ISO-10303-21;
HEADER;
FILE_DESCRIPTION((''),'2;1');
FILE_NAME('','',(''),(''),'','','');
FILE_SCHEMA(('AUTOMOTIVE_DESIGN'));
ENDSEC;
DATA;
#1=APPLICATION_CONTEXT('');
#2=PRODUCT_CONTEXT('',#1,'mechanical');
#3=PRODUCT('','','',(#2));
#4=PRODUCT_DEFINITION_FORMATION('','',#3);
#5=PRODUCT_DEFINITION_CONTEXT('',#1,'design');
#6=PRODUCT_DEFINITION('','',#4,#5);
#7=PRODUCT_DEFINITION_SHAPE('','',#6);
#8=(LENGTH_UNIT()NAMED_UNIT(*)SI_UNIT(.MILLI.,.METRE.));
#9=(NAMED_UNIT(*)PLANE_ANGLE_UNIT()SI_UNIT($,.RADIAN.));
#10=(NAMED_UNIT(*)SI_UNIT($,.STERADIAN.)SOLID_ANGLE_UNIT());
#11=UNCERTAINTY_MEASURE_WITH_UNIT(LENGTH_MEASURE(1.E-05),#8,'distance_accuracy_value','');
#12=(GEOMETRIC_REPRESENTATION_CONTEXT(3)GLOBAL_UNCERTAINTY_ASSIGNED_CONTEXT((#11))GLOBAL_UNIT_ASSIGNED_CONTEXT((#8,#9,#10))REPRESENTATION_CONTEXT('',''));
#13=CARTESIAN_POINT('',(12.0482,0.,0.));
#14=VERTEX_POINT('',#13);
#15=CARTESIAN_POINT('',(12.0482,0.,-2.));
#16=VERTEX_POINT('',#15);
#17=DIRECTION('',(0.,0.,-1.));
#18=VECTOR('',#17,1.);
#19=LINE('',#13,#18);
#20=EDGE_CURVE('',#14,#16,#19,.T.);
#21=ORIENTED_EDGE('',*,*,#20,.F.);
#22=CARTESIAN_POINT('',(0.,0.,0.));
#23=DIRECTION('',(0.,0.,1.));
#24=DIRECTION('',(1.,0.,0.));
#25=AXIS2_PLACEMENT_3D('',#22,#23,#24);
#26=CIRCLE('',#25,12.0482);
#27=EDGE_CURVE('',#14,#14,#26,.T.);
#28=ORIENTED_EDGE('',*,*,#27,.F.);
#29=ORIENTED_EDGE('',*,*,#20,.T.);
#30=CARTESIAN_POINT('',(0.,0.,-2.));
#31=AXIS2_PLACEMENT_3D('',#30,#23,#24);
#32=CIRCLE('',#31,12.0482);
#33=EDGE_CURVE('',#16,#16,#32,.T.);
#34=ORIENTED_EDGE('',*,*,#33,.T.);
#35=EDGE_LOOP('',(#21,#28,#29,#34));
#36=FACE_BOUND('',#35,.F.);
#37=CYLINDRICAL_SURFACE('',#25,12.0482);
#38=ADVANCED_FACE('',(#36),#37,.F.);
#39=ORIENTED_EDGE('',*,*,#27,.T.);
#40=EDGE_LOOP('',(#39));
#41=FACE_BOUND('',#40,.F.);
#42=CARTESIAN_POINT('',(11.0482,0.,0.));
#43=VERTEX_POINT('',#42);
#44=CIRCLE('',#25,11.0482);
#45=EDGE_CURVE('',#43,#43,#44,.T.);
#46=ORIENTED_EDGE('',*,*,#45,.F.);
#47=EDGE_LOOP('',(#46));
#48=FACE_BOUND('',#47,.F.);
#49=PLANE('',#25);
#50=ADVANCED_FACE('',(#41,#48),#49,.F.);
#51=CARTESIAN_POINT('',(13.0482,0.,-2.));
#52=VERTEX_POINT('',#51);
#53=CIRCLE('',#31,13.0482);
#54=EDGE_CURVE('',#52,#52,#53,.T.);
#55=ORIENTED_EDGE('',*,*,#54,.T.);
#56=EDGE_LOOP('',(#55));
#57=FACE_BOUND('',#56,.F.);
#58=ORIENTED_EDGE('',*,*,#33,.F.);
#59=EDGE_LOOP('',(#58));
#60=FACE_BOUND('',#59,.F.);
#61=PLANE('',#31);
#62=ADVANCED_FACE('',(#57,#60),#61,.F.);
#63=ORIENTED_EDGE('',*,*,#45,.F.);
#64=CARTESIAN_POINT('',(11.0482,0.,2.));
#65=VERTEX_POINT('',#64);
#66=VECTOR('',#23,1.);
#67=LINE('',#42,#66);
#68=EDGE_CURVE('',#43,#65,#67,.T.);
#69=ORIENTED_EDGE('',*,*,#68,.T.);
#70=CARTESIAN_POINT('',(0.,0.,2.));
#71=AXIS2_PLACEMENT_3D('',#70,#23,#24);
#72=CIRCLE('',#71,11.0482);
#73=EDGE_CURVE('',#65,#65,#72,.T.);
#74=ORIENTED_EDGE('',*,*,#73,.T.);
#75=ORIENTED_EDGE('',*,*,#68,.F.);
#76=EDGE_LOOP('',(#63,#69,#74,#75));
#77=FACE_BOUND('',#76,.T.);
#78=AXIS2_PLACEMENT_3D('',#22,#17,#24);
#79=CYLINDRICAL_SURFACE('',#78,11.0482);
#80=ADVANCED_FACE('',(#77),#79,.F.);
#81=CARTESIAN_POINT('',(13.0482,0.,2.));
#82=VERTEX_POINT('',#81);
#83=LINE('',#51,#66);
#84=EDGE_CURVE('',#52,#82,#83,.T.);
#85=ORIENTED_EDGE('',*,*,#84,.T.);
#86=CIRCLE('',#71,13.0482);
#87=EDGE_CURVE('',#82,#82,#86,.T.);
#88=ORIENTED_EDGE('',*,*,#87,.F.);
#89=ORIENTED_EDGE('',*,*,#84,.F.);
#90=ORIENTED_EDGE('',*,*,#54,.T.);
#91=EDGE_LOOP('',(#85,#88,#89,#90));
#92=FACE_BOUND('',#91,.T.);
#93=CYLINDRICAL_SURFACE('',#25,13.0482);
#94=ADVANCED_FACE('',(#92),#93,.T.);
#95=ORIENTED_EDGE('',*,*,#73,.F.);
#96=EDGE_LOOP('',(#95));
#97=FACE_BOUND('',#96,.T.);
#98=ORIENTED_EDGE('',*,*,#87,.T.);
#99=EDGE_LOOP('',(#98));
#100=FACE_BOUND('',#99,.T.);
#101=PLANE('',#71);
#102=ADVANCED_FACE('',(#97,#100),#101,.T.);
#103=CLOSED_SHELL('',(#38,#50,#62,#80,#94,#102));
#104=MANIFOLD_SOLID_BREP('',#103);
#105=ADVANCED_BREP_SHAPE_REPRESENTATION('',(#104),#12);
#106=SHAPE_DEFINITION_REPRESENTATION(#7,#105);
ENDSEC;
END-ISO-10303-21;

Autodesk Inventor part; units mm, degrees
ref_plane "YZ Plane" through (0, 0, 0) normal (1, 0, 0) x (0, 1, 0)
ref_plane "XZ Plane" through (0, 0, 0) normal (0, 1, 0) x (-1, 0, 0)
ref_plane "XY Plane" through (0, 0, 0) normal (0, 0, 1) x (1, 0, 0)
sketch "Sketch1" plane through (0, 0, 0) normal (0, 0, 1) x (1, 0, 0)
  circle A0 centre (0, 0) radius 13.0482
  spline S0 degree 3 poles (1.4215, 11.0572) (1.4473, 10.9809) (1.4859, 10.8664) (1.5292, 10.7112) (1.5586, 10.5939) (1.5843, 10.4759) (1.6059, 10.357) (1.6236, 10.2374) (1.631, 10.1572) (1.6346, 10.117) knots -0.096663 -0.096663 -0.096663 -0.096663 -0.072499 -0.060415 -0.048332 -0.036249 -0.024166 -0.012083 0 0 0 0 projected
  arc A1 (1.9905, 10.0531) -> (1.6346, 10.117) centre (0, 0) ccw projected
  spline S1 degree 3 poles (1.9905, 10.0531) (2.0079, 10.0894) (2.0426, 10.1621) (2.1009, 10.268) (2.1626, 10.3719) (2.2278, 10.4737) (2.2962, 10.5733) (2.3908, 10.7038) (2.4669, 10.7977) (2.5176, 10.8602) knots -0.096663 -0.096663 -0.096663 -0.096663 -0.084581 -0.072498 -0.060415 -0.048331 -0.036248 -0.024165 0 0 0 0 projected
  arc A2 (2.7193, 10.8115) -> (2.5176, 10.8602) centre (0, 0) ccw projected
  spline S2 degree 3 poles (2.7193, 10.8115) (2.7359, 10.7327) (2.7607, 10.6144) (2.7853, 10.4551) (2.8006, 10.3353) (2.8122, 10.215) (2.8196, 10.0943) (2.8231, 9.9735) (2.8208, 9.893) (2.8197, 9.8527) knots -0.096663 -0.096663 -0.096663 -0.096663 -0.072499 -0.060415 -0.048332 -0.036249 -0.024166 -0.012083 0 0 0 0 projected
  arc A3 (3.1655, 9.7471) -> (2.8197, 9.8527) centre (0, 0) ccw projected
  spline S3 degree 3 poles (3.1655, 9.7471) (3.1871, 9.7811) (3.2302, 9.8492) (3.3006, 9.9475) (3.3741, 10.0433) (3.4509, 10.1367) (3.5306, 10.2275) (3.64, 10.3459) (3.7266, 10.4301) (3.7844, 10.4863) knots -0.096663 -0.096663 -0.096663 -0.096663 -0.084581 -0.072498 -0.060415 -0.048331 -0.036248 -0.024165 0 0 0 0 projected
  arc A4 (3.9789, 10.414) -> (3.7844, 10.4863) centre (0, 0) ccw projected
  spline S4 degree 3 poles (3.9789, 10.414) (3.986, 10.3337) (3.9967, 10.2134) (4.0023, 10.0523) (4.0033, 9.9315) (4.0006, 9.8106) (3.9937, 9.69) (3.9828, 9.5696) (3.9711, 9.4899) (3.9652, 9.45) knots -0.096663 -0.096663 -0.096663 -0.096663 -0.072499 -0.060415 -0.048332 -0.036249 -0.024166 -0.012083 0 0 0 0 projected
  arc A5 (4.2961, 9.3043) -> (3.9652, 9.45) centre (0, 0) ccw projected
  spline S5 degree 3 poles (4.2961, 9.3043) (4.3215, 9.3355) (4.3724, 9.398) (4.4539, 9.4873) (4.5383, 9.5738) (4.6256, 9.6574) (4.7154, 9.7382) (4.838, 9.8428) (4.9341, 9.9161) (4.9981, 9.9651) knots -0.096663 -0.096663 -0.096663 -0.096663 -0.084581 -0.072498 -0.060415 -0.048331 -0.036248 -0.024165 0 0 0 0 projected
  arc A6 (5.1827, 9.8703) -> (4.9981, 9.9651) centre (0, 0) ccw projected
  spline S6 degree 3 poles (5.1827, 9.8703) (5.1803, 9.7898) (5.1766, 9.669) (5.1631, 9.5084) (5.1498, 9.3883) (5.1328, 9.2686) (5.1117, 9.1496) (5.0867, 9.0314) (5.0656, 8.9536) (5.0551, 8.9147) knots -0.096663 -0.096663 -0.096663 -0.096663 -0.072499 -0.060415 -0.048332 -0.036249 -0.024166 -0.012083 0 0 0 0 projected
  arc A7 (5.3664, 8.7309) -> (5.0551, 8.9147) centre (0, 0) ccw projected
  spline S7 degree 3 poles (5.3664, 8.7309) (5.3954, 8.7589) (5.4533, 8.8149) (5.5447, 8.8939) (5.6388, 8.9698) (5.7353, 9.0425) (5.8341, 9.1121) (5.9682, 9.2015) (6.0723, 9.263) (6.1416, 9.304) knots -0.096663 -0.096663 -0.096663 -0.096663 -0.084581 -0.072498 -0.060415 -0.048331 -0.036248 -0.024165 0 0 0 0 projected
  arc A8 (6.3137, 9.1881) -> (6.1416, 9.304) centre (0, 0) ccw projected
  spline S8 degree 3 poles (6.3137, 9.1881) (6.3018, 9.1084) (6.2839, 8.9889) (6.2515, 8.831) (6.2241, 8.7133) (6.193, 8.5965) (6.158, 8.4808) (6.1192, 8.3664) (6.089, 8.2916) (6.074, 8.2543) knots -0.096663 -0.096663 -0.096663 -0.096663 -0.072499 -0.060415 -0.048332 -0.036249 -0.024166 -0.012083 0 0 0 0 projected
  arc A9 (6.3614, 8.0349) -> (6.074, 8.2543) centre (0, 0) ccw projected
  spline S9 degree 3 poles (6.3614, 8.0349) (6.3934, 8.0593) (6.4576, 8.108) (6.5577, 8.1757) (6.6601, 8.24) (6.7646, 8.3007) (6.8709, 8.3581) (7.0146, 8.431) (7.1252, 8.4798) (7.1989, 8.5123) knots -0.096663 -0.096663 -0.096663 -0.096663 -0.084581 -0.072498 -0.060415 -0.048331 -0.036248 -0.024165 0 0 0 0 projected
  arc A10 (7.3561, 8.3768) -> (7.1989, 8.5123) centre (0, 0) ccw projected
  spline S10 degree 3 poles (7.3561, 8.3768) (7.3348, 8.2991) (7.3029, 8.1825) (7.2521, 8.0296) (7.2109, 7.916) (7.1663, 7.8037) (7.1179, 7.693) (7.0657, 7.5839) (7.027, 7.5133) (7.0076, 7.478) knots -0.096663 -0.096663 -0.096663 -0.096663 -0.072499 -0.060415 -0.048332 -0.036249 -0.024166 -0.012083 0 0 0 0 projected
  arc A11 (7.267, 7.2261) -> (7.0076, 7.478) centre (0, 0) ccw projected
  spline S11 degree 3 poles (7.267, 7.2261) (7.3017, 7.2465) (7.3712, 7.2874) (7.4787, 7.3427) (7.5879, 7.3944) (7.6988, 7.4424) (7.8112, 7.4868) (7.9625, 7.5422) (8.0781, 7.5775) (8.1552, 7.6011) knots -0.096663 -0.096663 -0.096663 -0.096663 -0.084581 -0.072498 -0.060415 -0.048331 -0.036248 -0.024165 0 0 0 0 projected
  arc A12 (8.2952, 7.448) -> (8.1552, 7.6011) centre (0, 0) ccw projected
  spline S12 degree 3 poles (8.2952, 7.448) (8.2649, 7.3734) (8.2194, 7.2614) (8.1509, 7.1155) (8.0966, 7.0076) (8.039, 6.9013) (7.9778, 6.7971) (7.9131, 6.695) (7.8663, 6.6294) (7.8429, 6.5967) knots -0.096663 -0.096663 -0.096663 -0.096663 -0.072499 -0.060415 -0.048332 -0.036249 -0.024166 -0.012083 0 0 0 0 projected
  arc A13 (8.0707, 6.3159) -> (7.8429, 6.5967) centre (0, 0) ccw projected
  spline S13 degree 3 poles (8.0707, 6.3159) (8.1076, 6.3321) (8.1814, 6.3644) (8.2946, 6.4066) (8.4092, 6.4451) (8.525, 6.4796) (8.6419, 6.5104) (8.7987, 6.5475) (8.9176, 6.5689) (8.9969, 6.5832) knots -0.096663 -0.096663 -0.096663 -0.096663 -0.084581 -0.072498 -0.060415 -0.048331 -0.036248 -0.024165 0 0 0 0 projected
  arc A14 (9.1179, 6.4146) -> (8.9969, 6.5832) centre (0, 0) ccw projected
  spline S14 degree 3 poles (9.1179, 6.4146) (9.079, 6.3441) (9.0206, 6.2383) (8.9352, 6.1016) (8.8686, 6.0008) (8.7988, 5.9021) (8.7257, 5.8059) (8.6494, 5.7121) (8.5952, 5.6525) (8.568, 5.6228) knots -0.096663 -0.096663 -0.096663 -0.096663 -0.072499 -0.060415 -0.048332 -0.036249 -0.024166 -0.012083 0 0 0 0 projected
  arc A15 (8.761, 5.317) -> (8.568, 5.6228) centre (0, 0) ccw projected
  spline S15 degree 3 poles (8.761, 5.317) (8.7996, 5.3287) (8.8767, 5.3521) (8.9941, 5.3806) (9.1125, 5.4052) (9.2316, 5.4258) (9.3512, 5.4426) (9.5113, 5.4609) (9.632, 5.4681) (9.7124, 5.4729) knots -0.096663 -0.096663 -0.096663 -0.096663 -0.084581 -0.072498 -0.060415 -0.048331 -0.036248 -0.024165 0 0 0 0 projected
  arc A16 (9.8126, 5.2912) -> (9.7124, 5.4729) centre (0, 0) ccw projected
  spline S16 degree 3 poles (9.8126, 5.2912) (9.7656, 5.2258) (9.6951, 5.1276) (9.5942, 5.002) (9.516, 4.9097) (9.4351, 4.82) (9.3511, 4.7331) (9.2643, 4.649) (9.2034, 4.5963) (9.1729, 4.5699) knots -0.096663 -0.096663 -0.096663 -0.096663 -0.072499 -0.060415 -0.048332 -0.036249 -0.024166 -0.012083 0 0 0 0 projected
  arc A17 (9.3284, 4.2435) -> (9.1729, 4.5699) centre (0, 0) ccw projected
  spline S17 degree 3 poles (9.3284, 4.2435) (9.3681, 4.2506) (9.4474, 4.2647) (9.5674, 4.2791) (9.6878, 4.2896) (9.8085, 4.2959) (9.9293, 4.2984) (10.0904, 4.2976) (10.2111, 4.2905) (10.2915, 4.2858) knots -0.096663 -0.096663 -0.096663 -0.096663 -0.084581 -0.072498 -0.060415 -0.048331 -0.036248 -0.024165 0 0 0 0 projected
  arc A18 (10.3695, 4.0935) -> (10.2915, 4.2858) centre (0, 0) ccw projected
  spline S18 degree 3 poles (10.3695, 4.0935) (10.3151, 4.0341) (10.2335, 3.9449) (10.1184, 3.8321) (10.0299, 3.7498) (9.939, 3.6703) (9.8453, 3.5939) (9.7491, 3.5206) (9.6824, 3.4755) (9.649, 3.4529) knots -0.096663 -0.096663 -0.096663 -0.096663 -0.072499 -0.060415 -0.048332 -0.036249 -0.024166 -0.012083 0 0 0 0 projected
  arc A19 (9.7648, 3.1104) -> (9.649, 3.4529) centre (0, 0) ccw projected
  spline S19 degree 3 poles (9.7648, 3.1104) (9.805, 3.1127) (9.8855, 3.1174) (10.0063, 3.1175) (10.1271, 3.1136) (10.2477, 3.1056) (10.368, 3.0939) (10.5279, 3.074) (10.6469, 3.0527) (10.7262, 3.0385) knots -0.096663 -0.096663 -0.096663 -0.096663 -0.084581 -0.072498 -0.060415 -0.048331 -0.036248 -0.024165 0 0 0 0 projected
  arc A20 (10.7809, 2.8383) -> (10.7262, 3.0385) centre (0, 0) ccw projected
  spline S20 degree 3 poles (10.7809, 2.8383) (10.7198, 2.7858) (10.6282, 2.7069) (10.5006, 2.6085) (10.403, 2.5372) (10.3033, 2.469) (10.2013, 2.4042) (10.0971, 2.3429) (10.0255, 2.306) (9.9897, 2.2875) knots -0.096663 -0.096663 -0.096663 -0.096663 -0.072499 -0.060415 -0.048332 -0.036249 -0.024166 -0.012083 0 0 0 0 projected
  arc A21 (10.0642, 1.9337) -> (9.9897, 2.2875) centre (0, 0) ccw projected
  spline S21 degree 3 poles (10.0642, 1.9337) (10.1044, 1.9312) (10.1848, 1.9263) (10.3048, 1.9121) (10.4243, 1.894) (10.5431, 1.8718) (10.6611, 1.8459) (10.8176, 1.8073) (10.9332, 1.772) (11.0103, 1.7485) knots -0.096663 -0.096663 -0.096663 -0.096663 -0.084581 -0.072498 -0.060415 -0.048331 -0.036248 -0.024165 0 0 0 0 projected
  arc A22 (11.0409, 1.5433) -> (11.0103, 1.7485) centre (0, 0) ccw projected
  spline S22 degree 3 poles (11.0409, 1.5433) (10.9741, 1.4983) (10.8738, 1.4309) (10.7354, 1.3482) (10.6301, 1.289) (10.523, 1.2331) (10.414, 1.1808) (10.3033, 1.1322) (10.2279, 1.104) (10.1901, 1.0899) knots -0.096663 -0.096663 -0.096663 -0.096663 -0.072499 -0.060415 -0.048332 -0.036249 -0.024166 -0.012083 0 0 0 0 projected
  arc A23 (10.2222, 0.7298) -> (10.1901, 1.0899) centre (0, 0) ccw projected
  spline S23 degree 3 poles (10.2222, 0.7298) (10.2619, 0.7226) (10.3411, 0.7082) (10.4587, 0.6799) (10.5752, 0.6478) (10.6905, 0.6117) (10.8046, 0.572) (10.9554, 0.5152) (11.066, 0.4665) (11.1398, 0.434) knots -0.096663 -0.096663 -0.096663 -0.096663 -0.084581 -0.072498 -0.060415 -0.048331 -0.036248 -0.024165 0 0 0 0 projected
  arc A24 (11.1459, 0.2266) -> (11.1398, 0.434) centre (0, 0) ccw projected
  spline S24 degree 3 poles (11.1459, 0.2266) (11.0742, 0.1899) (10.9667, 0.1348) (10.8196, 0.069) (10.708, 0.0227) (10.595, -0.0202) (10.4806, -0.0592) (10.3649, -0.0943) (10.2866, -0.1134) (10.2475, -0.1229) knots -0.096663 -0.096663 -0.096663 -0.096663 -0.072499 -0.060415 -0.048332 -0.036249 -0.024166 -0.012083 0 0 0 0 projected
  arc A25 (10.2368, -0.4843) -> (10.2475, -0.1229) centre (0, 0) ccw projected
  spline S25 degree 3 poles (10.2368, -0.4843) (10.2753, -0.4962) (10.3523, -0.5199) (10.4657, -0.5618) (10.5775, -0.6075) (10.6878, -0.657) (10.7965, -0.7099) (10.9394, -0.7842) (11.0435, -0.8456) (11.1129, -0.8865) knots -0.096663 -0.096663 -0.096663 -0.096663 -0.084581 -0.072498 -0.060415 -0.048331 -0.036248 -0.024165 0 0 0 0 projected
  arc A26 (11.0945, -1.0932) -> (11.1129, -0.8865) centre (0, 0) ccw projected
  spline S26 degree 3 poles (11.0945, -1.0932) (11.019, -1.1212) (10.9057, -1.1633) (10.7518, -1.2111) (10.6355, -1.2439) (10.5182, -1.2731) (10.4, -1.2983) (10.281, -1.3196) (10.201, -1.3292) (10.161, -1.3341) knots -0.096663 -0.096663 -0.096663 -0.096663 -0.072499 -0.060415 -0.048332 -0.036249 -0.024166 -0.012083 0 0 0 0 projected
  arc A27 (10.1077, -1.6917) -> (10.161, -1.3341) centre (0, 0) ccw projected
  spline S27 degree 3 poles (10.1077, -1.6917) (10.1445, -1.708) (10.2182, -1.7406) (10.3258, -1.7957) (10.4315, -1.8543) (10.5351, -1.9165) (10.6367, -1.9818) (10.7699, -2.0725) (10.866, -2.1458) (10.9301, -2.1947) knots -0.096663 -0.096663 -0.096663 -0.096663 -0.084581 -0.072498 -0.060415 -0.048331 -0.036248 -0.024165 0 0 0 0 projected
  arc A28 (10.8873, -2.3977) -> (10.9301, -2.1947) centre (0, 0) ccw projected
  spline S28 degree 3 poles (10.8873, -2.3977) (10.809, -2.4166) (10.6915, -2.4449) (10.5331, -2.4742) (10.4137, -2.4931) (10.2938, -2.5082) (10.1735, -2.5192) (10.0528, -2.5263) (9.9722, -2.5264) (9.9319, -2.5265) knots -0.096663 -0.096663 -0.096663 -0.096663 -0.072499 -0.060415 -0.048332 -0.036249 -0.024166 -0.012083 0 0 0 0 projected
  arc A29 (9.8366, -2.8753) -> (9.9319, -2.5265) centre (0, 0) ccw projected
  spline S29 degree 3 poles (9.8366, -2.8753) (9.8713, -2.8958) (9.9406, -2.9369) (10.0409, -3.0043) (10.1389, -3.075) (10.2345, -3.149) (10.3277, -3.226) (10.4492, -3.3318) (10.536, -3.4159) (10.5938, -3.472) knots -0.096663 -0.096663 -0.096663 -0.096663 -0.084581 -0.072498 -0.060415 -0.048331 -0.036248 -0.024165 0 0 0 0 projected
  arc A30 (10.5273, -3.6686) -> (10.5938, -3.472) centre (0, 0) ccw projected
  spline S30 degree 3 poles (10.5273, -3.6686) (10.4473, -3.6781) (10.3273, -3.6923) (10.1665, -3.7027) (10.0457, -3.7073) (9.9249, -3.7081) (9.8041, -3.7048) (9.6834, -3.6975) (9.6034, -3.6881) (9.5634, -3.6834) knots -0.096663 -0.096663 -0.096663 -0.096663 -0.072499 -0.060415 -0.048332 -0.036249 -0.024166 -0.012083 0 0 0 0 projected
  arc A31 (9.4275, -4.0185) -> (9.5634, -3.6834) centre (0, 0) ccw projected
  spline S31 degree 3 poles (9.4275, -4.0185) (9.4595, -4.043) (9.5234, -4.092) (9.6151, -4.1708) (9.7041, -4.2526) (9.7902, -4.3374) (9.8736, -4.4248) (9.9818, -4.5442) (10.058, -4.6381) (10.1088, -4.7006) knots -0.096663 -0.096663 -0.096663 -0.096663 -0.084581 -0.072498 -0.060415 -0.048331 -0.036248 -0.024165 0 0 0 0 projected
  arc A32 (10.0196, -4.8879) -> (10.1088, -4.7006) centre (0, 0) ccw projected
  spline S32 degree 3 poles (10.0196, -4.8879) (9.939, -4.8879) (9.8181, -4.8878) (9.6572, -4.8791) (9.5368, -4.8694) (9.4167, -4.8559) (9.2971, -4.8384) (9.1781, -4.8168) (9.0998, -4.7981) (9.0606, -4.7887) knots -0.096663 -0.096663 -0.096663 -0.096663 -0.072499 -0.060415 -0.048332 -0.036249 -0.024166 -0.012083 0 0 0 0 projected
  arc A33 (8.8861, -5.1053) -> (9.0606, -4.7887) centre (0, 0) ccw projected
  spline S33 degree 3 poles (8.8861, -5.1053) (8.9149, -5.1334) (8.9726, -5.1897) (9.0543, -5.2788) (9.133, -5.3705) (9.2085, -5.4649) (9.281, -5.5615) (9.3743, -5.6929) (9.4388, -5.7951) (9.4819, -5.8632) knots -0.096663 -0.096663 -0.096663 -0.096663 -0.084581 -0.072498 -0.060415 -0.048331 -0.036248 -0.024165 0 0 0 0 projected
  arc A34 (9.3711, -6.0387) -> (9.4819, -5.8632) centre (0, 0) ccw projected
  spline S34 degree 3 poles (9.3711, -6.0387) (9.2911, -6.0291) (9.1711, -6.0147) (9.0124, -5.987) (8.8939, -5.9631) (8.7762, -5.9356) (8.6596, -5.904) (8.544, -5.8686) (8.4684, -5.8407) (8.4307, -5.8267) knots -0.096663 -0.096663 -0.096663 -0.096663 -0.072499 -0.060415 -0.048332 -0.036249 -0.024166 -0.012083 0 0 0 0 projected
  arc A35 (8.2199, -6.1205) -> (8.4307, -5.8267) centre (0, 0) ccw projected
  spline S35 degree 3 poles (8.2199, -6.1205) (8.2452, -6.1518) (8.2958, -6.2144) (8.3664, -6.3126) (8.4337, -6.413) (8.4975, -6.5156) (8.5581, -6.6202) (8.6352, -6.7617) (8.6872, -6.8708) (8.7219, -6.9435) knots -0.096663 -0.096663 -0.096663 -0.096663 -0.084581 -0.072498 -0.060415 -0.048331 -0.036248 -0.024165 0 0 0 0 projected
  arc A36 (8.5911, -7.1046) -> (8.7219, -6.9435) centre (0, 0) ccw projected
  spline S36 degree 3 poles (8.5911, -7.1046) (8.5128, -7.0857) (8.3954, -7.0572) (8.241, -7.0109) (8.1262, -6.9732) (8.0126, -6.9319) (7.9005, -6.8868) (7.79, -6.8379) (7.7182, -6.8013) (7.6823, -6.7829) knots -0.096663 -0.096663 -0.096663 -0.096663 -0.072499 -0.060415 -0.048332 -0.036249 -0.024166 -0.012083 0 0 0 0 projected
  arc A37 (7.4383, -7.0497) -> (7.6823, -6.7829) centre (0, 0) ccw projected
  spline S37 degree 3 poles (7.4383, -7.0497) (7.4597, -7.0838) (7.5026, -7.152) (7.5611, -7.2578) (7.616, -7.3654) (7.6672, -7.4749) (7.715, -7.5859) (7.7748, -7.7355) (7.8136, -7.85) (7.8394, -7.9263) knots -0.096663 -0.096663 -0.096663 -0.096663 -0.084581 -0.072498 -0.060415 -0.048331 -0.036248 -0.024165 0 0 0 0 projected
  arc A38 (7.6905, -8.0709) -> (7.8394, -7.9263) centre (0, 0) ccw projected
  spline S38 degree 3 poles (7.6905, -8.0709) (7.615, -8.0428) (7.5018, -8.0006) (7.354, -7.9364) (7.2444, -7.8854) (7.1365, -7.8309) (7.0306, -7.7728) (6.9265, -7.7113) (6.8596, -7.6664) (6.8262, -7.6439) knots -0.096663 -0.096663 -0.096663 -0.096663 -0.072499 -0.060415 -0.048332 -0.036249 -0.024166 -0.012083 0 0 0 0 projected
  arc A39 (6.5523, -7.88) -> (6.8262, -7.6439) centre (0, 0) ccw projected
  spline S39 degree 3 poles (6.5523, -7.88) (6.5696, -7.9164) (6.6041, -7.9892) (6.6496, -8.1011) (6.6914, -8.2145) (6.7293, -8.3293) (6.7637, -8.4451) (6.8053, -8.6008) (6.8303, -8.7191) (6.8469, -8.7979) knots -0.096663 -0.096663 -0.096663 -0.096663 -0.084581 -0.072498 -0.060415 -0.048331 -0.036248 -0.024165 0 0 0 0 projected
  arc A40 (6.682, -8.9238) -> (6.8469, -8.7979) centre (0, 0) ccw projected
  spline S40 degree 3 poles (6.682, -8.9238) (6.6103, -8.887) (6.5028, -8.8317) (6.3637, -8.7505) (6.261, -8.6868) (6.1602, -8.62) (6.0619, -8.5498) (5.9659, -8.4764) (5.9048, -8.4239) (5.8742, -8.3976) knots -0.096663 -0.096663 -0.096663 -0.096663 -0.072499 -0.060415 -0.048332 -0.036249 -0.024166 -0.012083 0 0 0 0 projected
  arc A41 (5.5743, -8.5996) -> (5.8742, -8.3976) centre (0, 0) ccw projected
  spline S41 degree 3 poles (5.5743, -8.5996) (5.5871, -8.6378) (5.6128, -8.7142) (5.6448, -8.8307) (5.6729, -8.9483) (5.697, -9.0667) (5.7173, -9.1858) (5.7403, -9.3453) (5.7511, -9.4657) (5.7583, -9.5459) knots -0.096663 -0.096663 -0.096663 -0.096663 -0.084581 -0.072498 -0.060415 -0.048331 -0.036248 -0.024165 0 0 0 0 projected
  arc A42 (5.5797, -9.6515) -> (5.7583, -9.5459) centre (0, 0) ccw projected
  spline S42 degree 3 poles (5.5797, -9.6515) (5.5128, -9.6064) (5.4126, -9.5389) (5.2841, -9.4417) (5.1896, -9.3664) (5.0975, -9.2881) (5.0081, -9.2068) (4.9215, -9.1225) (4.867, -9.0631) (4.8397, -9.0335) knots -0.096663 -0.096663 -0.096663 -0.096663 -0.072499 -0.060415 -0.048332 -0.036249 -0.024166 -0.012083 0 0 0 0 projected
  arc A43 (4.5181, -9.1985) -> (4.8397, -9.0335) centre (0, 0) ccw projected
  spline S43 degree 3 poles (4.5181, -9.1985) (4.5263, -9.238) (4.5428, -9.3169) (4.5607, -9.4364) (4.5747, -9.5564) (4.5846, -9.6769) (4.5908, -9.7976) (4.5947, -9.9587) (4.5912, -10.0795) (4.5889, -10.16) knots -0.096663 -0.096663 -0.096663 -0.096663 -0.084581 -0.072498 -0.060415 -0.048331 -0.036248 -0.024165 0 0 0 0 projected
  arc A44 (4.399, -10.2436) -> (4.5889, -10.16) centre (0, 0) ccw projected
  spline S44 degree 3 poles (4.399, -10.2436) (4.338, -10.191) (4.2465, -10.1121) (4.1303, -10.0004) (4.0454, -9.9144) (3.9632, -9.8258) (3.8841, -9.7345) (3.808, -9.6405) (3.7609, -9.5751) (3.7374, -9.5425) knots -0.096663 -0.096663 -0.096663 -0.096663 -0.072499 -0.060415 -0.048332 -0.036249 -0.024166 -0.012083 0 0 0 0 projected
  arc A45 (3.3984, -9.6684) -> (3.7374, -9.5425) centre (0, 0) ccw projected
  spline S45 degree 3 poles (3.3984, -9.6684) (3.4019, -9.7085) (3.4089, -9.7887) (3.4127, -9.9096) (3.4124, -10.0304) (3.4079, -10.1512) (3.3998, -10.2718) (3.3846, -10.4322) (3.3669, -10.5517) (3.355, -10.6314) knots -0.096663 -0.096663 -0.096663 -0.096663 -0.084581 -0.072498 -0.060415 -0.048331 -0.036248 -0.024165 0 0 0 0 projected
  arc A46 (3.1566, -10.692) -> (3.355, -10.6314) centre (0, 0) ccw projected
  spline S46 degree 3 poles (3.1566, -10.692) (3.1022, -10.6326) (3.0207, -10.5433) (2.9185, -10.4187) (2.8444, -10.3233) (2.7732, -10.2256) (2.7055, -10.1255) (2.6411, -10.0232) (2.602, -9.9528) (2.5825, -9.9175) knots -0.096663 -0.096663 -0.096663 -0.096663 -0.072499 -0.060415 -0.048332 -0.036249 -0.024166 -0.012083 0 0 0 0 projected
  arc A47 (2.2311, -10.0024) -> (2.5825, -9.9175) centre (0, 0) ccw projected
  spline S47 degree 3 poles (2.2311, -10.0024) (2.2298, -10.0427) (2.2273, -10.1232) (2.2167, -10.2436) (2.2021, -10.3636) (2.1834, -10.483) (2.161, -10.6018) (2.127, -10.7593) (2.0952, -10.8759) (2.074, -10.9536) knots -0.096663 -0.096663 -0.096663 -0.096663 -0.084581 -0.072498 -0.060415 -0.048331 -0.036248 -0.024165 0 0 0 0 projected
  arc A48 (1.8698, -10.9903) -> (2.074, -10.9536) centre (0, 0) ccw projected
  spline S48 degree 3 poles (1.8698, -10.9903) (1.8229, -10.9248) (1.7525, -10.8266) (1.6658, -10.6908) (1.6034, -10.5872) (1.5443, -10.4818) (1.4889, -10.3744) (1.437, -10.2652) (1.4066, -10.1906) (1.3914, -10.1533) knots -0.096663 -0.096663 -0.096663 -0.096663 -0.072499 -0.060415 -0.048332 -0.036249 -0.024166 -0.012083 0 0 0 0 projected
  arc A49 (1.0324, -10.1961) -> (1.3914, -10.1533) centre (0, 0) ccw projected
  spline S49 degree 3 poles (1.0324, -10.1961) (1.0264, -10.2359) (1.0143, -10.3156) (0.9896, -10.4339) (0.9609, -10.5513) (0.9282, -10.6677) (0.892, -10.7829) (0.8396, -10.9353) (0.7942, -11.0474) (0.764, -11.122) knots -0.096663 -0.096663 -0.096663 -0.096663 -0.084581 -0.072498 -0.060415 -0.048331 -0.036248 -0.024165 0 0 0 0 projected
  arc A50 (0.5568, -11.1343) -> (0.764, -11.122) centre (0, 0) ccw projected
  spline S50 degree 3 poles (0.5568, -11.1343) (0.518, -11.0637) (0.4597, -10.9579) (0.3896, -10.8128) (0.34, -10.7026) (0.2938, -10.5909) (0.2514, -10.4777) (0.2129, -10.3632) (0.1915, -10.2855) (0.1808, -10.2466) knots -0.096663 -0.096663 -0.096663 -0.096663 -0.072499 -0.060415 -0.048332 -0.036249 -0.024166 -0.012083 0 0 0 0 projected
  arc A51 (-0.1808, -10.2466) -> (0.1808, -10.2466) centre (0, 0) ccw projected
  spline S51 degree 3 poles (-0.1808, -10.2466) (-0.1915, -10.2855) (-0.2129, -10.3632) (-0.2514, -10.4777) (-0.2938, -10.5909) (-0.34, -10.7026) (-0.3896, -10.8128) (-0.4597, -10.9579) (-0.518, -11.0637) (-0.5568, -11.1343) knots -0.096663 -0.096663 -0.096663 -0.096663 -0.084581 -0.072498 -0.060415 -0.048331 -0.036248 -0.024165 0 0 0 0 projected
  arc A52 (-0.764, -11.122) -> (-0.5568, -11.1343) centre (0, 0) ccw projected
  spline S52 degree 3 poles (-0.764, -11.122) (-0.7942, -11.0474) (-0.8396, -10.9353) (-0.892, -10.7829) (-0.9282, -10.6677) (-0.9609, -10.5513) (-0.9896, -10.4339) (-1.0143, -10.3156) (-1.0264, -10.2359) (-1.0324, -10.1961) knots -0.096663 -0.096663 -0.096663 -0.096663 -0.072499 -0.060415 -0.048332 -0.036249 -0.024166 -0.012083 0 0 0 0 projected
  arc A53 (-1.3914, -10.1533) -> (-1.0324, -10.1961) centre (0, 0) ccw projected
  spline S53 degree 3 poles (-1.3914, -10.1533) (-1.4066, -10.1906) (-1.437, -10.2652) (-1.4889, -10.3744) (-1.5443, -10.4818) (-1.6034, -10.5872) (-1.6658, -10.6908) (-1.7525, -10.8266) (-1.8229, -10.9248) (-1.8698, -10.9903) knots -0.096663 -0.096663 -0.096663 -0.096663 -0.084581 -0.072498 -0.060415 -0.048331 -0.036248 -0.024165 0 0 0 0 projected
  arc A54 (-2.074, -10.9536) -> (-1.8698, -10.9903) centre (0, 0) ccw projected
  spline S54 degree 3 poles (-2.074, -10.9536) (-2.0952, -10.8759) (-2.127, -10.7593) (-2.161, -10.6018) (-2.1834, -10.483) (-2.2021, -10.3636) (-2.2167, -10.2436) (-2.2273, -10.1232) (-2.2298, -10.0427) (-2.2311, -10.0024) knots -0.096663 -0.096663 -0.096663 -0.096663 -0.072499 -0.060415 -0.048332 -0.036249 -0.024166 -0.012083 0 0 0 0 projected
  arc A55 (-2.5825, -9.9175) -> (-2.2311, -10.0024) centre (0, 0) ccw projected
  spline S55 degree 3 poles (-2.5825, -9.9175) (-2.602, -9.9528) (-2.6411, -10.0232) (-2.7055, -10.1255) (-2.7732, -10.2256) (-2.8444, -10.3233) (-2.9185, -10.4187) (-3.0207, -10.5433) (-3.1022, -10.6326) (-3.1566, -10.692) knots -0.096663 -0.096663 -0.096663 -0.096663 -0.084581 -0.072498 -0.060415 -0.048331 -0.036248 -0.024165 0 0 0 0 projected
  arc A56 (-3.355, -10.6314) -> (-3.1566, -10.692) centre (0, 0) ccw projected
  spline S56 degree 3 poles (-3.355, -10.6314) (-3.3669, -10.5517) (-3.3846, -10.4322) (-3.3998, -10.2718) (-3.4079, -10.1512) (-3.4124, -10.0304) (-3.4127, -9.9096) (-3.4089, -9.7887) (-3.4019, -9.7085) (-3.3984, -9.6684) knots -0.096663 -0.096663 -0.096663 -0.096663 -0.072499 -0.060415 -0.048332 -0.036249 -0.024166 -0.012083 0 0 0 0 projected
  arc A57 (-3.7374, -9.5425) -> (-3.3984, -9.6684) centre (0, 0) ccw projected
  spline S57 degree 3 poles (-3.7374, -9.5425) (-3.7609, -9.5751) (-3.808, -9.6405) (-3.8841, -9.7345) (-3.9632, -9.8258) (-4.0454, -9.9144) (-4.1303, -10.0004) (-4.2465, -10.1121) (-4.338, -10.191) (-4.399, -10.2436) knots -0.096663 -0.096663 -0.096663 -0.096663 -0.084581 -0.072498 -0.060415 -0.048331 -0.036248 -0.024165 0 0 0 0 projected
  arc A58 (-4.5889, -10.16) -> (-4.399, -10.2436) centre (0, 0) ccw projected
  spline S58 degree 3 poles (-4.5889, -10.16) (-4.5912, -10.0795) (-4.5947, -9.9587) (-4.5908, -9.7976) (-4.5846, -9.6769) (-4.5747, -9.5564) (-4.5607, -9.4364) (-4.5428, -9.3169) (-4.5263, -9.238) (-4.5181, -9.1985) knots -0.096663 -0.096663 -0.096663 -0.096663 -0.072499 -0.060415 -0.048332 -0.036249 -0.024166 -0.012083 0 0 0 0 projected
  arc A59 (-4.8397, -9.0335) -> (-4.5181, -9.1985) centre (0, 0) ccw projected
  spline S59 degree 3 poles (-4.8397, -9.0335) (-4.867, -9.0631) (-4.9215, -9.1225) (-5.0081, -9.2068) (-5.0975, -9.2881) (-5.1896, -9.3664) (-5.2841, -9.4417) (-5.4126, -9.5389) (-5.5128, -9.6064) (-5.5797, -9.6515) knots -0.096663 -0.096663 -0.096663 -0.096663 -0.084581 -0.072498 -0.060415 -0.048331 -0.036248 -0.024165 0 0 0 0 projected
  arc A60 (-5.7583, -9.5459) -> (-5.5797, -9.6515) centre (0, 0) ccw projected
  spline S60 degree 3 poles (-5.7583, -9.5459) (-5.7511, -9.4657) (-5.7403, -9.3453) (-5.7173, -9.1858) (-5.697, -9.0667) (-5.6729, -8.9483) (-5.6448, -8.8307) (-5.6128, -8.7142) (-5.5871, -8.6378) (-5.5743, -8.5996) knots -0.096663 -0.096663 -0.096663 -0.096663 -0.072499 -0.060415 -0.048332 -0.036249 -0.024166 -0.012083 0 0 0 0 projected
  arc A61 (-5.8742, -8.3976) -> (-5.5743, -8.5996) centre (0, 0) ccw projected
  spline S61 degree 3 poles (-5.8742, -8.3976) (-5.9048, -8.4239) (-5.9659, -8.4764) (-6.0619, -8.5498) (-6.1602, -8.62) (-6.261, -8.6868) (-6.3637, -8.7505) (-6.5028, -8.8317) (-6.6103, -8.887) (-6.682, -8.9238) knots -0.096663 -0.096663 -0.096663 -0.096663 -0.084581 -0.072498 -0.060415 -0.048331 -0.036248 -0.024165 0 0 0 0 projected
  arc A62 (-6.8469, -8.7979) -> (-6.682, -8.9238) centre (0, 0) ccw projected
  spline S62 degree 3 poles (-6.8469, -8.7979) (-6.8303, -8.7191) (-6.8053, -8.6008) (-6.7637, -8.4451) (-6.7293, -8.3293) (-6.6914, -8.2145) (-6.6496, -8.1011) (-6.6041, -7.9892) (-6.5696, -7.9164) (-6.5523, -7.88) knots -0.096663 -0.096663 -0.096663 -0.096663 -0.072499 -0.060415 -0.048332 -0.036249 -0.024166 -0.012083 0 0 0 0 projected
  arc A63 (-6.8262, -7.6439) -> (-6.5523, -7.88) centre (0, 0) ccw projected
  spline S63 degree 3 poles (-6.8262, -7.6439) (-6.8596, -7.6664) (-6.9265, -7.7113) (-7.0306, -7.7728) (-7.1365, -7.8309) (-7.2444, -7.8854) (-7.354, -7.9364) (-7.5018, -8.0006) (-7.615, -8.0428) (-7.6905, -8.0709) knots -0.096663 -0.096663 -0.096663 -0.096663 -0.084581 -0.072498 -0.060415 -0.048331 -0.036248 -0.024165 0 0 0 0 projected
  arc A64 (-7.8394, -7.9263) -> (-7.6905, -8.0709) centre (0, 0) ccw projected
  spline S64 degree 3 poles (-7.8394, -7.9263) (-7.8136, -7.85) (-7.7748, -7.7355) (-7.715, -7.5859) (-7.6672, -7.4749) (-7.616, -7.3654) (-7.5611, -7.2578) (-7.5026, -7.152) (-7.4597, -7.0838) (-7.4383, -7.0497) knots -0.096663 -0.096663 -0.096663 -0.096663 -0.072499 -0.060415 -0.048332 -0.036249 -0.024166 -0.012083 0 0 0 0 projected
  arc A65 (-7.6823, -6.7829) -> (-7.4383, -7.0497) centre (0, 0) ccw projected
  spline S65 degree 3 poles (-7.6823, -6.7829) (-7.7182, -6.8013) (-7.79, -6.8379) (-7.9005, -6.8868) (-8.0126, -6.9319) (-8.1262, -6.9732) (-8.241, -7.0109) (-8.3954, -7.0572) (-8.5128, -7.0857) (-8.5911, -7.1046) knots -0.096663 -0.096663 -0.096663 -0.096663 -0.084581 -0.072498 -0.060415 -0.048331 -0.036248 -0.024165 0 0 0 0 projected
  arc A66 (-8.7219, -6.9435) -> (-8.5911, -7.1046) centre (0, 0) ccw projected
  spline S66 degree 3 poles (-8.7219, -6.9435) (-8.6872, -6.8708) (-8.6352, -6.7617) (-8.5581, -6.6202) (-8.4975, -6.5156) (-8.4337, -6.413) (-8.3664, -6.3126) (-8.2958, -6.2144) (-8.2452, -6.1518) (-8.2199, -6.1205) knots -0.096663 -0.096663 -0.096663 -0.096663 -0.072499 -0.060415 -0.048332 -0.036249 -0.024166 -0.012083 0 0 0 0 projected
  arc A67 (-8.4307, -5.8267) -> (-8.2199, -6.1205) centre (0, 0) ccw projected
  spline S67 degree 3 poles (-8.4307, -5.8267) (-8.4684, -5.8407) (-8.544, -5.8686) (-8.6596, -5.904) (-8.7762, -5.9356) (-8.8939, -5.9631) (-9.0124, -5.987) (-9.1711, -6.0147) (-9.2911, -6.0291) (-9.3711, -6.0387) knots -0.096663 -0.096663 -0.096663 -0.096663 -0.084581 -0.072498 -0.060415 -0.048331 -0.036248 -0.024165 0 0 0 0 projected
  arc A68 (-9.4819, -5.8632) -> (-9.3711, -6.0387) centre (0, 0) ccw projected
  spline S68 degree 3 poles (-9.4819, -5.8632) (-9.4388, -5.7951) (-9.3743, -5.6929) (-9.281, -5.5615) (-9.2085, -5.4649) (-9.133, -5.3705) (-9.0543, -5.2788) (-8.9726, -5.1897) (-8.9149, -5.1334) (-8.8861, -5.1053) knots -0.096663 -0.096663 -0.096663 -0.096663 -0.072499 -0.060415 -0.048332 -0.036249 -0.024166 -0.012083 0 0 0 0 projected
  arc A69 (-9.0606, -4.7887) -> (-8.8861, -5.1053) centre (0, 0) ccw projected
  spline S69 degree 3 poles (-9.0606, -4.7887) (-9.0998, -4.7981) (-9.1781, -4.8168) (-9.2971, -4.8384) (-9.4167, -4.8559) (-9.5368, -4.8694) (-9.6572, -4.8791) (-9.8181, -4.8878) (-9.939, -4.8879) (-10.0196, -4.8879) knots -0.096663 -0.096663 -0.096663 -0.096663 -0.084581 -0.072498 -0.060415 -0.048331 -0.036248 -0.024165 0 0 0 0 projected
  arc A70 (-10.1088, -4.7006) -> (-10.0196, -4.8879) centre (0, 0) ccw projected
  spline S70 degree 3 poles (-10.1088, -4.7006) (-10.058, -4.6381) (-9.9818, -4.5442) (-9.8736, -4.4248) (-9.7902, -4.3374) (-9.7041, -4.2526) (-9.6151, -4.1708) (-9.5234, -4.092) (-9.4595, -4.043) (-9.4275, -4.0185) knots -0.096663 -0.096663 -0.096663 -0.096663 -0.072499 -0.060415 -0.048332 -0.036249 -0.024166 -0.012083 0 0 0 0 projected
  arc A71 (-9.5634, -3.6834) -> (-9.4275, -4.0185) centre (0, 0) ccw projected
  spline S71 degree 3 poles (-9.5634, -3.6834) (-9.6034, -3.6881) (-9.6834, -3.6975) (-9.8041, -3.7048) (-9.9249, -3.7081) (-10.0457, -3.7073) (-10.1665, -3.7027) (-10.3273, -3.6923) (-10.4473, -3.6781) (-10.5273, -3.6686) knots -0.096663 -0.096663 -0.096663 -0.096663 -0.084581 -0.072498 -0.060415 -0.048331 -0.036248 -0.024165 0 0 0 0 projected
  arc A72 (-10.5938, -3.472) -> (-10.5273, -3.6686) centre (0, 0) ccw projected
  spline S72 degree 3 poles (-10.5938, -3.472) (-10.536, -3.4159) (-10.4492, -3.3318) (-10.3277, -3.226) (-10.2345, -3.149) (-10.1389, -3.075) (-10.0409, -3.0043) (-9.9406, -2.9369) (-9.8713, -2.8958) (-9.8366, -2.8753) knots -0.096663 -0.096663 -0.096663 -0.096663 -0.072499 -0.060415 -0.048332 -0.036249 -0.024166 -0.012083 0 0 0 0 projected
  arc A73 (-9.9319, -2.5265) -> (-9.8366, -2.8753) centre (0, 0) ccw projected
  spline S73 degree 3 poles (-9.9319, -2.5265) (-9.9722, -2.5264) (-10.0528, -2.5263) (-10.1735, -2.5192) (-10.2938, -2.5082) (-10.4137, -2.4931) (-10.5331, -2.4742) (-10.6915, -2.4449) (-10.809, -2.4166) (-10.8873, -2.3977) knots -0.096663 -0.096663 -0.096663 -0.096663 -0.084581 -0.072498 -0.060415 -0.048331 -0.036248 -0.024165 0 0 0 0 projected
  arc A74 (-10.9301, -2.1947) -> (-10.8873, -2.3977) centre (0, 0) ccw projected
  spline S74 degree 3 poles (-10.9301, -2.1947) (-10.866, -2.1458) (-10.7699, -2.0725) (-10.6367, -1.9818) (-10.5351, -1.9165) (-10.4315, -1.8543) (-10.3258, -1.7957) (-10.2182, -1.7406) (-10.1445, -1.708) (-10.1077, -1.6917) knots -0.096663 -0.096663 -0.096663 -0.096663 -0.072499 -0.060415 -0.048332 -0.036249 -0.024166 -0.012083 0 0 0 0 projected
  arc A75 (-10.161, -1.3341) -> (-10.1077, -1.6917) centre (0, 0) ccw projected
  spline S75 degree 3 poles (-10.161, -1.3341) (-10.201, -1.3292) (-10.281, -1.3196) (-10.4, -1.2983) (-10.5182, -1.2731) (-10.6355, -1.2439) (-10.7518, -1.2111) (-10.9057, -1.1633) (-11.019, -1.1212) (-11.0945, -1.0932) knots -0.096663 -0.096663 -0.096663 -0.096663 -0.084581 -0.072498 -0.060415 -0.048331 -0.036248 -0.024165 0 0 0 0 projected
  arc A76 (-11.1129, -0.8865) -> (-11.0945, -1.0932) centre (0, 0) ccw projected
  spline S76 degree 3 poles (-11.1129, -0.8865) (-11.0435, -0.8456) (-10.9394, -0.7842) (-10.7965, -0.7099) (-10.6878, -0.657) (-10.5775, -0.6075) (-10.4657, -0.5618) (-10.3523, -0.5199) (-10.2753, -0.4962) (-10.2368, -0.4843) knots -0.096663 -0.096663 -0.096663 -0.096663 -0.072499 -0.060415 -0.048332 -0.036249 -0.024166 -0.012083 0 0 0 0 projected
  arc A77 (-10.2475, -0.1229) -> (-10.2368, -0.4843) centre (0, 0) ccw projected
  spline S77 degree 3 poles (-10.2475, -0.1229) (-10.2866, -0.1134) (-10.3649, -0.0943) (-10.4806, -0.0592) (-10.595, -0.0202) (-10.708, 0.0227) (-10.8196, 0.069) (-10.9667, 0.1348) (-11.0742, 0.1899) (-11.1459, 0.2266) knots -0.096663 -0.096663 -0.096663 -0.096663 -0.084581 -0.072498 -0.060415 -0.048331 -0.036248 -0.024165 0 0 0 0 projected
  arc A78 (-11.1398, 0.434) -> (-11.1459, 0.2266) centre (0, 0) ccw projected
  spline S78 degree 3 poles (-11.1398, 0.434) (-11.066, 0.4665) (-10.9554, 0.5152) (-10.8046, 0.572) (-10.6905, 0.6117) (-10.5752, 0.6478) (-10.4587, 0.6799) (-10.3411, 0.7082) (-10.2619, 0.7226) (-10.2222, 0.7298) knots -0.096663 -0.096663 -0.096663 -0.096663 -0.072499 -0.060415 -0.048332 -0.036249 -0.024166 -0.012083 0 0 0 0 projected
  arc A79 (-10.1901, 1.0899) -> (-10.2222, 0.7298) centre (0, 0) ccw projected
  spline S79 degree 3 poles (-10.1901, 1.0899) (-10.2279, 1.104) (-10.3033, 1.1322) (-10.414, 1.1808) (-10.523, 1.2331) (-10.6301, 1.289) (-10.7354, 1.3482) (-10.8738, 1.4309) (-10.9741, 1.4983) (-11.0409, 1.5433) knots -0.096663 -0.096663 -0.096663 -0.096663 -0.084581 -0.072498 -0.060415 -0.048331 -0.036248 -0.024165 0 0 0 0 projected
  arc A80 (-11.0103, 1.7485) -> (-11.0409, 1.5433) centre (0, 0) ccw projected
  spline S80 degree 3 poles (-11.0103, 1.7485) (-10.9332, 1.772) (-10.8176, 1.8073) (-10.6611, 1.8459) (-10.5431, 1.8718) (-10.4243, 1.894) (-10.3048, 1.9121) (-10.1848, 1.9263) (-10.1044, 1.9312) (-10.0642, 1.9337) knots -0.096663 -0.096663 -0.096663 -0.096663 -0.072499 -0.060415 -0.048332 -0.036249 -0.024166 -0.012083 0 0 0 0 projected
  arc A81 (-9.9897, 2.2875) -> (-10.0642, 1.9337) centre (0, 0) ccw projected
  spline S81 degree 3 poles (-9.9897, 2.2875) (-10.0255, 2.306) (-10.0971, 2.3429) (-10.2013, 2.4042) (-10.3033, 2.469) (-10.403, 2.5372) (-10.5006, 2.6085) (-10.6282, 2.7069) (-10.7198, 2.7858) (-10.7809, 2.8383) knots -0.096663 -0.096663 -0.096663 -0.096663 -0.084581 -0.072498 -0.060415 -0.048331 -0.036248 -0.024165 0 0 0 0 projected
  arc A82 (-10.7262, 3.0385) -> (-10.7809, 2.8383) centre (0, 0) ccw projected
  spline S82 degree 3 poles (-10.7262, 3.0385) (-10.6469, 3.0527) (-10.5279, 3.074) (-10.368, 3.0939) (-10.2477, 3.1056) (-10.1271, 3.1136) (-10.0063, 3.1175) (-9.8855, 3.1174) (-9.805, 3.1127) (-9.7648, 3.1104) knots -0.096663 -0.096663 -0.096663 -0.096663 -0.072499 -0.060415 -0.048332 -0.036249 -0.024166 -0.012083 0 0 0 0 projected
  arc A83 (-9.649, 3.4529) -> (-9.7648, 3.1104) centre (0, 0) ccw projected
  spline S83 degree 3 poles (-9.649, 3.4529) (-9.6824, 3.4755) (-9.7491, 3.5206) (-9.8453, 3.5939) (-9.939, 3.6703) (-10.0299, 3.7498) (-10.1184, 3.8321) (-10.2335, 3.9449) (-10.3151, 4.0341) (-10.3695, 4.0935) knots -0.096663 -0.096663 -0.096663 -0.096663 -0.084581 -0.072498 -0.060415 -0.048331 -0.036248 -0.024165 0 0 0 0 projected
  arc A84 (-10.2915, 4.2858) -> (-10.3695, 4.0935) centre (0, 0) ccw projected
  spline S84 degree 3 poles (-10.2915, 4.2858) (-10.2111, 4.2905) (-10.0904, 4.2976) (-9.9293, 4.2984) (-9.8085, 4.2959) (-9.6878, 4.2896) (-9.5674, 4.2791) (-9.4474, 4.2647) (-9.3681, 4.2506) (-9.3284, 4.2435) knots -0.096663 -0.096663 -0.096663 -0.096663 -0.072499 -0.060415 -0.048332 -0.036249 -0.024166 -0.012083 0 0 0 0 projected
  arc A85 (-9.1729, 4.5699) -> (-9.3284, 4.2435) centre (0, 0) ccw projected
  spline S85 degree 3 poles (-9.1729, 4.5699) (-9.2034, 4.5963) (-9.2643, 4.649) (-9.3511, 4.7331) (-9.4351, 4.82) (-9.516, 4.9097) (-9.5942, 5.002) (-9.6951, 5.1276) (-9.7656, 5.2258) (-9.8126, 5.2912) knots -0.096663 -0.096663 -0.096663 -0.096663 -0.084581 -0.072498 -0.060415 -0.048331 -0.036248 -0.024165 0 0 0 0 projected
  arc A86 (-9.7124, 5.4729) -> (-9.8126, 5.2912) centre (0, 0) ccw projected
  spline S86 degree 3 poles (-9.7124, 5.4729) (-9.632, 5.4681) (-9.5113, 5.4609) (-9.3512, 5.4426) (-9.2316, 5.4258) (-9.1125, 5.4052) (-8.9941, 5.3806) (-8.8767, 5.3521) (-8.7996, 5.3287) (-8.761, 5.317) knots -0.096663 -0.096663 -0.096663 -0.096663 -0.072499 -0.060415 -0.048332 -0.036249 -0.024166 -0.012083 0 0 0 0 projected
  arc A87 (-8.568, 5.6228) -> (-8.761, 5.317) centre (0, 0) ccw projected
  spline S87 degree 3 poles (-8.568, 5.6228) (-8.5952, 5.6525) (-8.6494, 5.7121) (-8.7257, 5.8059) (-8.7988, 5.9021) (-8.8686, 6.0008) (-8.9352, 6.1016) (-9.0206, 6.2383) (-9.079, 6.3441) (-9.1179, 6.4146) knots -0.096663 -0.096663 -0.096663 -0.096663 -0.084581 -0.072498 -0.060415 -0.048331 -0.036248 -0.024165 0 0 0 0 projected
  arc A88 (-8.9969, 6.5832) -> (-9.1179, 6.4146) centre (0, 0) ccw projected
  spline S88 degree 3 poles (-8.9969, 6.5832) (-8.9176, 6.5689) (-8.7987, 6.5475) (-8.6419, 6.5104) (-8.525, 6.4796) (-8.4092, 6.4451) (-8.2946, 6.4066) (-8.1814, 6.3644) (-8.1076, 6.3321) (-8.0707, 6.3159) knots -0.096663 -0.096663 -0.096663 -0.096663 -0.072499 -0.060415 -0.048332 -0.036249 -0.024166 -0.012083 0 0 0 0 projected
  arc A89 (-7.8429, 6.5967) -> (-8.0707, 6.3159) centre (0, 0) ccw projected
  spline S89 degree 3 poles (-7.8429, 6.5967) (-7.8663, 6.6294) (-7.9131, 6.695) (-7.9778, 6.7971) (-8.039, 6.9013) (-8.0966, 7.0076) (-8.1509, 7.1155) (-8.2194, 7.2614) (-8.2649, 7.3734) (-8.2952, 7.448) knots -0.096663 -0.096663 -0.096663 -0.096663 -0.084581 -0.072498 -0.060415 -0.048331 -0.036248 -0.024165 0 0 0 0 projected
  arc A90 (-8.1552, 7.6011) -> (-8.2952, 7.448) centre (0, 0) ccw projected
  spline S90 degree 3 poles (-8.1552, 7.6011) (-8.0781, 7.5775) (-7.9625, 7.5422) (-7.8112, 7.4868) (-7.6988, 7.4424) (-7.5879, 7.3944) (-7.4787, 7.3427) (-7.3712, 7.2874) (-7.3017, 7.2465) (-7.267, 7.2261) knots -0.096663 -0.096663 -0.096663 -0.096663 -0.072499 -0.060415 -0.048332 -0.036249 -0.024166 -0.012083 0 0 0 0 projected
  arc A91 (-7.0076, 7.478) -> (-7.267, 7.2261) centre (0, 0) ccw projected
  spline S91 degree 3 poles (-7.0076, 7.478) (-7.027, 7.5133) (-7.0657, 7.5839) (-7.1179, 7.693) (-7.1663, 7.8037) (-7.2109, 7.916) (-7.2521, 8.0296) (-7.3029, 8.1825) (-7.3348, 8.2991) (-7.3561, 8.3768) knots -0.096663 -0.096663 -0.096663 -0.096663 -0.084581 -0.072498 -0.060415 -0.048331 -0.036248 -0.024165 0 0 0 0 projected
  arc A92 (-7.1989, 8.5123) -> (-7.3561, 8.3768) centre (0, 0) ccw projected
  spline S92 degree 3 poles (-7.1989, 8.5123) (-7.1252, 8.4798) (-7.0146, 8.431) (-6.8709, 8.3581) (-6.7646, 8.3007) (-6.6601, 8.24) (-6.5577, 8.1757) (-6.4576, 8.108) (-6.3934, 8.0593) (-6.3614, 8.0349) knots -0.096663 -0.096663 -0.096663 -0.096663 -0.072499 -0.060415 -0.048332 -0.036249 -0.024166 -0.012083 0 0 0 0 projected
  arc A93 (-6.074, 8.2543) -> (-6.3614, 8.0349) centre (0, 0) ccw projected
  spline S93 degree 3 poles (-6.074, 8.2543) (-6.089, 8.2916) (-6.1192, 8.3664) (-6.158, 8.4808) (-6.193, 8.5965) (-6.2241, 8.7133) (-6.2515, 8.831) (-6.2839, 8.9889) (-6.3018, 9.1084) (-6.3137, 9.1881) knots -0.096663 -0.096663 -0.096663 -0.096663 -0.084581 -0.072498 -0.060415 -0.048331 -0.036248 -0.024165 0 0 0 0 projected
  arc A94 (-6.1416, 9.304) -> (-6.3137, 9.1881) centre (0, 0) ccw projected
  spline S94 degree 3 poles (-6.1416, 9.304) (-6.0723, 9.263) (-5.9682, 9.2015) (-5.8341, 9.1121) (-5.7353, 9.0425) (-5.6388, 8.9698) (-5.5447, 8.8939) (-5.4533, 8.8149) (-5.3954, 8.7589) (-5.3664, 8.7309) knots -0.096663 -0.096663 -0.096663 -0.096663 -0.072499 -0.060415 -0.048332 -0.036249 -0.024166 -0.012083 0 0 0 0 projected
  arc A95 (-5.0551, 8.9147) -> (-5.3664, 8.7309) centre (0, 0) ccw projected
  spline S95 degree 3 poles (-5.0551, 8.9147) (-5.0656, 8.9536) (-5.0867, 9.0314) (-5.1117, 9.1496) (-5.1328, 9.2686) (-5.1498, 9.3883) (-5.1631, 9.5084) (-5.1766, 9.669) (-5.1803, 9.7898) (-5.1827, 9.8703) knots -0.096663 -0.096663 -0.096663 -0.096663 -0.084581 -0.072498 -0.060415 -0.048331 -0.036248 -0.024165 0 0 0 0 projected
  arc A96 (-4.9981, 9.9651) -> (-5.1827, 9.8703) centre (0, 0) ccw projected
  spline S96 degree 3 poles (-4.9981, 9.9651) (-4.9341, 9.9161) (-4.838, 9.8428) (-4.7154, 9.7382) (-4.6256, 9.6574) (-4.5383, 9.5738) (-4.4539, 9.4873) (-4.3724, 9.398) (-4.3215, 9.3355) (-4.2961, 9.3043) knots -0.096663 -0.096663 -0.096663 -0.096663 -0.072499 -0.060415 -0.048332 -0.036249 -0.024166 -0.012083 0 0 0 0 projected
  arc A97 (-3.9652, 9.45) -> (-4.2961, 9.3043) centre (0, 0) ccw projected
  spline S97 degree 3 poles (-3.9652, 9.45) (-3.9711, 9.4899) (-3.9828, 9.5696) (-3.9937, 9.69) (-4.0006, 9.8106) (-4.0033, 9.9315) (-4.0023, 10.0523) (-3.9967, 10.2134) (-3.986, 10.3337) (-3.9789, 10.414) knots -0.096663 -0.096663 -0.096663 -0.096663 -0.084581 -0.072498 -0.060415 -0.048331 -0.036248 -0.024165 0 0 0 0 projected
  arc A98 (-3.7844, 10.4863) -> (-3.9789, 10.414) centre (0, 0) ccw projected
  spline S98 degree 3 poles (-3.7844, 10.4863) (-3.7266, 10.4301) (-3.64, 10.3459) (-3.5306, 10.2275) (-3.4509, 10.1367) (-3.3741, 10.0433) (-3.3006, 9.9475) (-3.2302, 9.8492) (-3.1871, 9.7811) (-3.1655, 9.7471) knots -0.096663 -0.096663 -0.096663 -0.096663 -0.072499 -0.060415 -0.048332 -0.036249 -0.024166 -0.012083 0 0 0 0 projected
  arc A99 (-2.8197, 9.8527) -> (-3.1655, 9.7471) centre (0, 0) ccw projected
  spline S99 degree 3 poles (-2.8197, 9.8527) (-2.8208, 9.893) (-2.8231, 9.9735) (-2.8196, 10.0943) (-2.8122, 10.215) (-2.8006, 10.3353) (-2.7853, 10.4551) (-2.7607, 10.6144) (-2.7359, 10.7327) (-2.7193, 10.8115) knots -0.096663 -0.096663 -0.096663 -0.096663 -0.084581 -0.072498 -0.060415 -0.048331 -0.036248 -0.024165 0 0 0 0 projected
  arc A100 (-2.5176, 10.8602) -> (-2.7193, 10.8115) centre (0, 0) ccw projected
  spline S100 degree 3 poles (-2.5176, 10.8602) (-2.4669, 10.7977) (-2.3908, 10.7038) (-2.2962, 10.5733) (-2.2278, 10.4737) (-2.1626, 10.3719) (-2.1009, 10.268) (-2.0426, 10.1621) (-2.0079, 10.0894) (-1.9905, 10.0531) knots -0.096663 -0.096663 -0.096663 -0.096663 -0.072499 -0.060415 -0.048332 -0.036249 -0.024166 -0.012083 0 0 0 0 projected
  arc A101 (-1.6346, 10.117) -> (-1.9905, 10.0531) centre (0, 0) ccw projected
  spline S101 degree 3 poles (-1.6346, 10.117) (-1.631, 10.1572) (-1.6236, 10.2374) (-1.6059, 10.357) (-1.5843, 10.4759) (-1.5586, 10.5939) (-1.5292, 10.7112) (-1.4859, 10.8664) (-1.4473, 10.9809) (-1.4215, 11.0572) knots -0.096663 -0.096663 -0.096663 -0.096663 -0.084581 -0.072498 -0.060415 -0.048331 -0.036248 -0.024165 0 0 0 0 projected
  arc A102 (-1.2155, 11.0818) -> (-1.4215, 11.0572) centre (0, 0) ccw projected
  spline S102 degree 3 poles (-1.2155, 11.0818) (-1.1725, 11.0136) (-1.108, 10.9114) (-1.0295, 10.7707) (-0.9734, 10.6636) (-0.9207, 10.5549) (-0.8717, 10.4444) (-0.8264, 10.3323) (-0.8005, 10.2561) (-0.7875, 10.2179) knots -0.096663 -0.096663 -0.096663 -0.096663 -0.072499 -0.060415 -0.048332 -0.036249 -0.024166 -0.012083 0 0 0 0 projected
  arc A103 (-0.4266, 10.2394) -> (-0.7875, 10.2179) centre (0, 0) ccw projected
  spline S103 degree 3 poles (-0.4266, 10.2394) (-0.4182, 10.2788) (-0.4014, 10.3576) (-0.3697, 10.4742) (-0.3341, 10.5897) (-0.2946, 10.7039) (-0.2516, 10.8168) (-0.1903, 10.9659) (-0.1384, 11.075) (-0.1037, 11.1478) knots -0.096663 -0.096663 -0.096663 -0.096663 -0.084581 -0.072498 -0.060415 -0.048331 -0.036248 -0.024165 0 0 0 0 projected
  arc A104 (0.1037, 11.1478) -> (-0.1037, 11.1478) centre (0, 0) ccw projected
  spline S104 degree 3 poles (0.1037, 11.1478) (0.1384, 11.075) (0.1903, 10.9659) (0.2516, 10.8168) (0.2946, 10.7039) (0.3341, 10.5897) (0.3697, 10.4742) (0.4014, 10.3576) (0.4182, 10.2788) (0.4266, 10.2394) knots -0.096663 -0.096663 -0.096663 -0.096663 -0.072499 -0.060415 -0.048332 -0.036249 -0.024166 -0.012083 0 0 0 0 projected
  arc A105 (0.7875, 10.2179) -> (0.4266, 10.2394) centre (0, 0) ccw projected
  spline S105 degree 3 poles (0.7875, 10.2179) (0.8005, 10.2561) (0.8264, 10.3323) (0.8717, 10.4444) (0.9207, 10.5549) (0.9734, 10.6636) (1.0295, 10.7707) (1.108, 10.9114) (1.1725, 11.0136) (1.2155, 11.0818) knots -0.096663 -0.096663 -0.096663 -0.096663 -0.084581 -0.072498 -0.060415 -0.048331 -0.036248 -0.024165 0 0 0 0 projected
  arc A106 (1.4215, 11.0572) -> (1.2155, 11.0818) centre (0, 0) ccw projected
  circle A107 centre (0, 0) radius 12.0482 projected
  dimension "d0" = 1
extrude "Extrusion1" add sketch "Sketch1" against normal blind 2 contours A0
sketch "Sketch2" plane through (0, 0, 0) normal (0, 0, 1) x (1, 0, 0)
  circle A0 centre (0, 0) radius 13.0482 projected
  circle A1 centre (0, 0) radius 13.0482
  circle A2 centre (0, 0) radius 11.0482
  dimension "d3" = 2
extrude "Extrusion2" add sketch "Sketch2" along normal blind 2
properties part number "I53O"
